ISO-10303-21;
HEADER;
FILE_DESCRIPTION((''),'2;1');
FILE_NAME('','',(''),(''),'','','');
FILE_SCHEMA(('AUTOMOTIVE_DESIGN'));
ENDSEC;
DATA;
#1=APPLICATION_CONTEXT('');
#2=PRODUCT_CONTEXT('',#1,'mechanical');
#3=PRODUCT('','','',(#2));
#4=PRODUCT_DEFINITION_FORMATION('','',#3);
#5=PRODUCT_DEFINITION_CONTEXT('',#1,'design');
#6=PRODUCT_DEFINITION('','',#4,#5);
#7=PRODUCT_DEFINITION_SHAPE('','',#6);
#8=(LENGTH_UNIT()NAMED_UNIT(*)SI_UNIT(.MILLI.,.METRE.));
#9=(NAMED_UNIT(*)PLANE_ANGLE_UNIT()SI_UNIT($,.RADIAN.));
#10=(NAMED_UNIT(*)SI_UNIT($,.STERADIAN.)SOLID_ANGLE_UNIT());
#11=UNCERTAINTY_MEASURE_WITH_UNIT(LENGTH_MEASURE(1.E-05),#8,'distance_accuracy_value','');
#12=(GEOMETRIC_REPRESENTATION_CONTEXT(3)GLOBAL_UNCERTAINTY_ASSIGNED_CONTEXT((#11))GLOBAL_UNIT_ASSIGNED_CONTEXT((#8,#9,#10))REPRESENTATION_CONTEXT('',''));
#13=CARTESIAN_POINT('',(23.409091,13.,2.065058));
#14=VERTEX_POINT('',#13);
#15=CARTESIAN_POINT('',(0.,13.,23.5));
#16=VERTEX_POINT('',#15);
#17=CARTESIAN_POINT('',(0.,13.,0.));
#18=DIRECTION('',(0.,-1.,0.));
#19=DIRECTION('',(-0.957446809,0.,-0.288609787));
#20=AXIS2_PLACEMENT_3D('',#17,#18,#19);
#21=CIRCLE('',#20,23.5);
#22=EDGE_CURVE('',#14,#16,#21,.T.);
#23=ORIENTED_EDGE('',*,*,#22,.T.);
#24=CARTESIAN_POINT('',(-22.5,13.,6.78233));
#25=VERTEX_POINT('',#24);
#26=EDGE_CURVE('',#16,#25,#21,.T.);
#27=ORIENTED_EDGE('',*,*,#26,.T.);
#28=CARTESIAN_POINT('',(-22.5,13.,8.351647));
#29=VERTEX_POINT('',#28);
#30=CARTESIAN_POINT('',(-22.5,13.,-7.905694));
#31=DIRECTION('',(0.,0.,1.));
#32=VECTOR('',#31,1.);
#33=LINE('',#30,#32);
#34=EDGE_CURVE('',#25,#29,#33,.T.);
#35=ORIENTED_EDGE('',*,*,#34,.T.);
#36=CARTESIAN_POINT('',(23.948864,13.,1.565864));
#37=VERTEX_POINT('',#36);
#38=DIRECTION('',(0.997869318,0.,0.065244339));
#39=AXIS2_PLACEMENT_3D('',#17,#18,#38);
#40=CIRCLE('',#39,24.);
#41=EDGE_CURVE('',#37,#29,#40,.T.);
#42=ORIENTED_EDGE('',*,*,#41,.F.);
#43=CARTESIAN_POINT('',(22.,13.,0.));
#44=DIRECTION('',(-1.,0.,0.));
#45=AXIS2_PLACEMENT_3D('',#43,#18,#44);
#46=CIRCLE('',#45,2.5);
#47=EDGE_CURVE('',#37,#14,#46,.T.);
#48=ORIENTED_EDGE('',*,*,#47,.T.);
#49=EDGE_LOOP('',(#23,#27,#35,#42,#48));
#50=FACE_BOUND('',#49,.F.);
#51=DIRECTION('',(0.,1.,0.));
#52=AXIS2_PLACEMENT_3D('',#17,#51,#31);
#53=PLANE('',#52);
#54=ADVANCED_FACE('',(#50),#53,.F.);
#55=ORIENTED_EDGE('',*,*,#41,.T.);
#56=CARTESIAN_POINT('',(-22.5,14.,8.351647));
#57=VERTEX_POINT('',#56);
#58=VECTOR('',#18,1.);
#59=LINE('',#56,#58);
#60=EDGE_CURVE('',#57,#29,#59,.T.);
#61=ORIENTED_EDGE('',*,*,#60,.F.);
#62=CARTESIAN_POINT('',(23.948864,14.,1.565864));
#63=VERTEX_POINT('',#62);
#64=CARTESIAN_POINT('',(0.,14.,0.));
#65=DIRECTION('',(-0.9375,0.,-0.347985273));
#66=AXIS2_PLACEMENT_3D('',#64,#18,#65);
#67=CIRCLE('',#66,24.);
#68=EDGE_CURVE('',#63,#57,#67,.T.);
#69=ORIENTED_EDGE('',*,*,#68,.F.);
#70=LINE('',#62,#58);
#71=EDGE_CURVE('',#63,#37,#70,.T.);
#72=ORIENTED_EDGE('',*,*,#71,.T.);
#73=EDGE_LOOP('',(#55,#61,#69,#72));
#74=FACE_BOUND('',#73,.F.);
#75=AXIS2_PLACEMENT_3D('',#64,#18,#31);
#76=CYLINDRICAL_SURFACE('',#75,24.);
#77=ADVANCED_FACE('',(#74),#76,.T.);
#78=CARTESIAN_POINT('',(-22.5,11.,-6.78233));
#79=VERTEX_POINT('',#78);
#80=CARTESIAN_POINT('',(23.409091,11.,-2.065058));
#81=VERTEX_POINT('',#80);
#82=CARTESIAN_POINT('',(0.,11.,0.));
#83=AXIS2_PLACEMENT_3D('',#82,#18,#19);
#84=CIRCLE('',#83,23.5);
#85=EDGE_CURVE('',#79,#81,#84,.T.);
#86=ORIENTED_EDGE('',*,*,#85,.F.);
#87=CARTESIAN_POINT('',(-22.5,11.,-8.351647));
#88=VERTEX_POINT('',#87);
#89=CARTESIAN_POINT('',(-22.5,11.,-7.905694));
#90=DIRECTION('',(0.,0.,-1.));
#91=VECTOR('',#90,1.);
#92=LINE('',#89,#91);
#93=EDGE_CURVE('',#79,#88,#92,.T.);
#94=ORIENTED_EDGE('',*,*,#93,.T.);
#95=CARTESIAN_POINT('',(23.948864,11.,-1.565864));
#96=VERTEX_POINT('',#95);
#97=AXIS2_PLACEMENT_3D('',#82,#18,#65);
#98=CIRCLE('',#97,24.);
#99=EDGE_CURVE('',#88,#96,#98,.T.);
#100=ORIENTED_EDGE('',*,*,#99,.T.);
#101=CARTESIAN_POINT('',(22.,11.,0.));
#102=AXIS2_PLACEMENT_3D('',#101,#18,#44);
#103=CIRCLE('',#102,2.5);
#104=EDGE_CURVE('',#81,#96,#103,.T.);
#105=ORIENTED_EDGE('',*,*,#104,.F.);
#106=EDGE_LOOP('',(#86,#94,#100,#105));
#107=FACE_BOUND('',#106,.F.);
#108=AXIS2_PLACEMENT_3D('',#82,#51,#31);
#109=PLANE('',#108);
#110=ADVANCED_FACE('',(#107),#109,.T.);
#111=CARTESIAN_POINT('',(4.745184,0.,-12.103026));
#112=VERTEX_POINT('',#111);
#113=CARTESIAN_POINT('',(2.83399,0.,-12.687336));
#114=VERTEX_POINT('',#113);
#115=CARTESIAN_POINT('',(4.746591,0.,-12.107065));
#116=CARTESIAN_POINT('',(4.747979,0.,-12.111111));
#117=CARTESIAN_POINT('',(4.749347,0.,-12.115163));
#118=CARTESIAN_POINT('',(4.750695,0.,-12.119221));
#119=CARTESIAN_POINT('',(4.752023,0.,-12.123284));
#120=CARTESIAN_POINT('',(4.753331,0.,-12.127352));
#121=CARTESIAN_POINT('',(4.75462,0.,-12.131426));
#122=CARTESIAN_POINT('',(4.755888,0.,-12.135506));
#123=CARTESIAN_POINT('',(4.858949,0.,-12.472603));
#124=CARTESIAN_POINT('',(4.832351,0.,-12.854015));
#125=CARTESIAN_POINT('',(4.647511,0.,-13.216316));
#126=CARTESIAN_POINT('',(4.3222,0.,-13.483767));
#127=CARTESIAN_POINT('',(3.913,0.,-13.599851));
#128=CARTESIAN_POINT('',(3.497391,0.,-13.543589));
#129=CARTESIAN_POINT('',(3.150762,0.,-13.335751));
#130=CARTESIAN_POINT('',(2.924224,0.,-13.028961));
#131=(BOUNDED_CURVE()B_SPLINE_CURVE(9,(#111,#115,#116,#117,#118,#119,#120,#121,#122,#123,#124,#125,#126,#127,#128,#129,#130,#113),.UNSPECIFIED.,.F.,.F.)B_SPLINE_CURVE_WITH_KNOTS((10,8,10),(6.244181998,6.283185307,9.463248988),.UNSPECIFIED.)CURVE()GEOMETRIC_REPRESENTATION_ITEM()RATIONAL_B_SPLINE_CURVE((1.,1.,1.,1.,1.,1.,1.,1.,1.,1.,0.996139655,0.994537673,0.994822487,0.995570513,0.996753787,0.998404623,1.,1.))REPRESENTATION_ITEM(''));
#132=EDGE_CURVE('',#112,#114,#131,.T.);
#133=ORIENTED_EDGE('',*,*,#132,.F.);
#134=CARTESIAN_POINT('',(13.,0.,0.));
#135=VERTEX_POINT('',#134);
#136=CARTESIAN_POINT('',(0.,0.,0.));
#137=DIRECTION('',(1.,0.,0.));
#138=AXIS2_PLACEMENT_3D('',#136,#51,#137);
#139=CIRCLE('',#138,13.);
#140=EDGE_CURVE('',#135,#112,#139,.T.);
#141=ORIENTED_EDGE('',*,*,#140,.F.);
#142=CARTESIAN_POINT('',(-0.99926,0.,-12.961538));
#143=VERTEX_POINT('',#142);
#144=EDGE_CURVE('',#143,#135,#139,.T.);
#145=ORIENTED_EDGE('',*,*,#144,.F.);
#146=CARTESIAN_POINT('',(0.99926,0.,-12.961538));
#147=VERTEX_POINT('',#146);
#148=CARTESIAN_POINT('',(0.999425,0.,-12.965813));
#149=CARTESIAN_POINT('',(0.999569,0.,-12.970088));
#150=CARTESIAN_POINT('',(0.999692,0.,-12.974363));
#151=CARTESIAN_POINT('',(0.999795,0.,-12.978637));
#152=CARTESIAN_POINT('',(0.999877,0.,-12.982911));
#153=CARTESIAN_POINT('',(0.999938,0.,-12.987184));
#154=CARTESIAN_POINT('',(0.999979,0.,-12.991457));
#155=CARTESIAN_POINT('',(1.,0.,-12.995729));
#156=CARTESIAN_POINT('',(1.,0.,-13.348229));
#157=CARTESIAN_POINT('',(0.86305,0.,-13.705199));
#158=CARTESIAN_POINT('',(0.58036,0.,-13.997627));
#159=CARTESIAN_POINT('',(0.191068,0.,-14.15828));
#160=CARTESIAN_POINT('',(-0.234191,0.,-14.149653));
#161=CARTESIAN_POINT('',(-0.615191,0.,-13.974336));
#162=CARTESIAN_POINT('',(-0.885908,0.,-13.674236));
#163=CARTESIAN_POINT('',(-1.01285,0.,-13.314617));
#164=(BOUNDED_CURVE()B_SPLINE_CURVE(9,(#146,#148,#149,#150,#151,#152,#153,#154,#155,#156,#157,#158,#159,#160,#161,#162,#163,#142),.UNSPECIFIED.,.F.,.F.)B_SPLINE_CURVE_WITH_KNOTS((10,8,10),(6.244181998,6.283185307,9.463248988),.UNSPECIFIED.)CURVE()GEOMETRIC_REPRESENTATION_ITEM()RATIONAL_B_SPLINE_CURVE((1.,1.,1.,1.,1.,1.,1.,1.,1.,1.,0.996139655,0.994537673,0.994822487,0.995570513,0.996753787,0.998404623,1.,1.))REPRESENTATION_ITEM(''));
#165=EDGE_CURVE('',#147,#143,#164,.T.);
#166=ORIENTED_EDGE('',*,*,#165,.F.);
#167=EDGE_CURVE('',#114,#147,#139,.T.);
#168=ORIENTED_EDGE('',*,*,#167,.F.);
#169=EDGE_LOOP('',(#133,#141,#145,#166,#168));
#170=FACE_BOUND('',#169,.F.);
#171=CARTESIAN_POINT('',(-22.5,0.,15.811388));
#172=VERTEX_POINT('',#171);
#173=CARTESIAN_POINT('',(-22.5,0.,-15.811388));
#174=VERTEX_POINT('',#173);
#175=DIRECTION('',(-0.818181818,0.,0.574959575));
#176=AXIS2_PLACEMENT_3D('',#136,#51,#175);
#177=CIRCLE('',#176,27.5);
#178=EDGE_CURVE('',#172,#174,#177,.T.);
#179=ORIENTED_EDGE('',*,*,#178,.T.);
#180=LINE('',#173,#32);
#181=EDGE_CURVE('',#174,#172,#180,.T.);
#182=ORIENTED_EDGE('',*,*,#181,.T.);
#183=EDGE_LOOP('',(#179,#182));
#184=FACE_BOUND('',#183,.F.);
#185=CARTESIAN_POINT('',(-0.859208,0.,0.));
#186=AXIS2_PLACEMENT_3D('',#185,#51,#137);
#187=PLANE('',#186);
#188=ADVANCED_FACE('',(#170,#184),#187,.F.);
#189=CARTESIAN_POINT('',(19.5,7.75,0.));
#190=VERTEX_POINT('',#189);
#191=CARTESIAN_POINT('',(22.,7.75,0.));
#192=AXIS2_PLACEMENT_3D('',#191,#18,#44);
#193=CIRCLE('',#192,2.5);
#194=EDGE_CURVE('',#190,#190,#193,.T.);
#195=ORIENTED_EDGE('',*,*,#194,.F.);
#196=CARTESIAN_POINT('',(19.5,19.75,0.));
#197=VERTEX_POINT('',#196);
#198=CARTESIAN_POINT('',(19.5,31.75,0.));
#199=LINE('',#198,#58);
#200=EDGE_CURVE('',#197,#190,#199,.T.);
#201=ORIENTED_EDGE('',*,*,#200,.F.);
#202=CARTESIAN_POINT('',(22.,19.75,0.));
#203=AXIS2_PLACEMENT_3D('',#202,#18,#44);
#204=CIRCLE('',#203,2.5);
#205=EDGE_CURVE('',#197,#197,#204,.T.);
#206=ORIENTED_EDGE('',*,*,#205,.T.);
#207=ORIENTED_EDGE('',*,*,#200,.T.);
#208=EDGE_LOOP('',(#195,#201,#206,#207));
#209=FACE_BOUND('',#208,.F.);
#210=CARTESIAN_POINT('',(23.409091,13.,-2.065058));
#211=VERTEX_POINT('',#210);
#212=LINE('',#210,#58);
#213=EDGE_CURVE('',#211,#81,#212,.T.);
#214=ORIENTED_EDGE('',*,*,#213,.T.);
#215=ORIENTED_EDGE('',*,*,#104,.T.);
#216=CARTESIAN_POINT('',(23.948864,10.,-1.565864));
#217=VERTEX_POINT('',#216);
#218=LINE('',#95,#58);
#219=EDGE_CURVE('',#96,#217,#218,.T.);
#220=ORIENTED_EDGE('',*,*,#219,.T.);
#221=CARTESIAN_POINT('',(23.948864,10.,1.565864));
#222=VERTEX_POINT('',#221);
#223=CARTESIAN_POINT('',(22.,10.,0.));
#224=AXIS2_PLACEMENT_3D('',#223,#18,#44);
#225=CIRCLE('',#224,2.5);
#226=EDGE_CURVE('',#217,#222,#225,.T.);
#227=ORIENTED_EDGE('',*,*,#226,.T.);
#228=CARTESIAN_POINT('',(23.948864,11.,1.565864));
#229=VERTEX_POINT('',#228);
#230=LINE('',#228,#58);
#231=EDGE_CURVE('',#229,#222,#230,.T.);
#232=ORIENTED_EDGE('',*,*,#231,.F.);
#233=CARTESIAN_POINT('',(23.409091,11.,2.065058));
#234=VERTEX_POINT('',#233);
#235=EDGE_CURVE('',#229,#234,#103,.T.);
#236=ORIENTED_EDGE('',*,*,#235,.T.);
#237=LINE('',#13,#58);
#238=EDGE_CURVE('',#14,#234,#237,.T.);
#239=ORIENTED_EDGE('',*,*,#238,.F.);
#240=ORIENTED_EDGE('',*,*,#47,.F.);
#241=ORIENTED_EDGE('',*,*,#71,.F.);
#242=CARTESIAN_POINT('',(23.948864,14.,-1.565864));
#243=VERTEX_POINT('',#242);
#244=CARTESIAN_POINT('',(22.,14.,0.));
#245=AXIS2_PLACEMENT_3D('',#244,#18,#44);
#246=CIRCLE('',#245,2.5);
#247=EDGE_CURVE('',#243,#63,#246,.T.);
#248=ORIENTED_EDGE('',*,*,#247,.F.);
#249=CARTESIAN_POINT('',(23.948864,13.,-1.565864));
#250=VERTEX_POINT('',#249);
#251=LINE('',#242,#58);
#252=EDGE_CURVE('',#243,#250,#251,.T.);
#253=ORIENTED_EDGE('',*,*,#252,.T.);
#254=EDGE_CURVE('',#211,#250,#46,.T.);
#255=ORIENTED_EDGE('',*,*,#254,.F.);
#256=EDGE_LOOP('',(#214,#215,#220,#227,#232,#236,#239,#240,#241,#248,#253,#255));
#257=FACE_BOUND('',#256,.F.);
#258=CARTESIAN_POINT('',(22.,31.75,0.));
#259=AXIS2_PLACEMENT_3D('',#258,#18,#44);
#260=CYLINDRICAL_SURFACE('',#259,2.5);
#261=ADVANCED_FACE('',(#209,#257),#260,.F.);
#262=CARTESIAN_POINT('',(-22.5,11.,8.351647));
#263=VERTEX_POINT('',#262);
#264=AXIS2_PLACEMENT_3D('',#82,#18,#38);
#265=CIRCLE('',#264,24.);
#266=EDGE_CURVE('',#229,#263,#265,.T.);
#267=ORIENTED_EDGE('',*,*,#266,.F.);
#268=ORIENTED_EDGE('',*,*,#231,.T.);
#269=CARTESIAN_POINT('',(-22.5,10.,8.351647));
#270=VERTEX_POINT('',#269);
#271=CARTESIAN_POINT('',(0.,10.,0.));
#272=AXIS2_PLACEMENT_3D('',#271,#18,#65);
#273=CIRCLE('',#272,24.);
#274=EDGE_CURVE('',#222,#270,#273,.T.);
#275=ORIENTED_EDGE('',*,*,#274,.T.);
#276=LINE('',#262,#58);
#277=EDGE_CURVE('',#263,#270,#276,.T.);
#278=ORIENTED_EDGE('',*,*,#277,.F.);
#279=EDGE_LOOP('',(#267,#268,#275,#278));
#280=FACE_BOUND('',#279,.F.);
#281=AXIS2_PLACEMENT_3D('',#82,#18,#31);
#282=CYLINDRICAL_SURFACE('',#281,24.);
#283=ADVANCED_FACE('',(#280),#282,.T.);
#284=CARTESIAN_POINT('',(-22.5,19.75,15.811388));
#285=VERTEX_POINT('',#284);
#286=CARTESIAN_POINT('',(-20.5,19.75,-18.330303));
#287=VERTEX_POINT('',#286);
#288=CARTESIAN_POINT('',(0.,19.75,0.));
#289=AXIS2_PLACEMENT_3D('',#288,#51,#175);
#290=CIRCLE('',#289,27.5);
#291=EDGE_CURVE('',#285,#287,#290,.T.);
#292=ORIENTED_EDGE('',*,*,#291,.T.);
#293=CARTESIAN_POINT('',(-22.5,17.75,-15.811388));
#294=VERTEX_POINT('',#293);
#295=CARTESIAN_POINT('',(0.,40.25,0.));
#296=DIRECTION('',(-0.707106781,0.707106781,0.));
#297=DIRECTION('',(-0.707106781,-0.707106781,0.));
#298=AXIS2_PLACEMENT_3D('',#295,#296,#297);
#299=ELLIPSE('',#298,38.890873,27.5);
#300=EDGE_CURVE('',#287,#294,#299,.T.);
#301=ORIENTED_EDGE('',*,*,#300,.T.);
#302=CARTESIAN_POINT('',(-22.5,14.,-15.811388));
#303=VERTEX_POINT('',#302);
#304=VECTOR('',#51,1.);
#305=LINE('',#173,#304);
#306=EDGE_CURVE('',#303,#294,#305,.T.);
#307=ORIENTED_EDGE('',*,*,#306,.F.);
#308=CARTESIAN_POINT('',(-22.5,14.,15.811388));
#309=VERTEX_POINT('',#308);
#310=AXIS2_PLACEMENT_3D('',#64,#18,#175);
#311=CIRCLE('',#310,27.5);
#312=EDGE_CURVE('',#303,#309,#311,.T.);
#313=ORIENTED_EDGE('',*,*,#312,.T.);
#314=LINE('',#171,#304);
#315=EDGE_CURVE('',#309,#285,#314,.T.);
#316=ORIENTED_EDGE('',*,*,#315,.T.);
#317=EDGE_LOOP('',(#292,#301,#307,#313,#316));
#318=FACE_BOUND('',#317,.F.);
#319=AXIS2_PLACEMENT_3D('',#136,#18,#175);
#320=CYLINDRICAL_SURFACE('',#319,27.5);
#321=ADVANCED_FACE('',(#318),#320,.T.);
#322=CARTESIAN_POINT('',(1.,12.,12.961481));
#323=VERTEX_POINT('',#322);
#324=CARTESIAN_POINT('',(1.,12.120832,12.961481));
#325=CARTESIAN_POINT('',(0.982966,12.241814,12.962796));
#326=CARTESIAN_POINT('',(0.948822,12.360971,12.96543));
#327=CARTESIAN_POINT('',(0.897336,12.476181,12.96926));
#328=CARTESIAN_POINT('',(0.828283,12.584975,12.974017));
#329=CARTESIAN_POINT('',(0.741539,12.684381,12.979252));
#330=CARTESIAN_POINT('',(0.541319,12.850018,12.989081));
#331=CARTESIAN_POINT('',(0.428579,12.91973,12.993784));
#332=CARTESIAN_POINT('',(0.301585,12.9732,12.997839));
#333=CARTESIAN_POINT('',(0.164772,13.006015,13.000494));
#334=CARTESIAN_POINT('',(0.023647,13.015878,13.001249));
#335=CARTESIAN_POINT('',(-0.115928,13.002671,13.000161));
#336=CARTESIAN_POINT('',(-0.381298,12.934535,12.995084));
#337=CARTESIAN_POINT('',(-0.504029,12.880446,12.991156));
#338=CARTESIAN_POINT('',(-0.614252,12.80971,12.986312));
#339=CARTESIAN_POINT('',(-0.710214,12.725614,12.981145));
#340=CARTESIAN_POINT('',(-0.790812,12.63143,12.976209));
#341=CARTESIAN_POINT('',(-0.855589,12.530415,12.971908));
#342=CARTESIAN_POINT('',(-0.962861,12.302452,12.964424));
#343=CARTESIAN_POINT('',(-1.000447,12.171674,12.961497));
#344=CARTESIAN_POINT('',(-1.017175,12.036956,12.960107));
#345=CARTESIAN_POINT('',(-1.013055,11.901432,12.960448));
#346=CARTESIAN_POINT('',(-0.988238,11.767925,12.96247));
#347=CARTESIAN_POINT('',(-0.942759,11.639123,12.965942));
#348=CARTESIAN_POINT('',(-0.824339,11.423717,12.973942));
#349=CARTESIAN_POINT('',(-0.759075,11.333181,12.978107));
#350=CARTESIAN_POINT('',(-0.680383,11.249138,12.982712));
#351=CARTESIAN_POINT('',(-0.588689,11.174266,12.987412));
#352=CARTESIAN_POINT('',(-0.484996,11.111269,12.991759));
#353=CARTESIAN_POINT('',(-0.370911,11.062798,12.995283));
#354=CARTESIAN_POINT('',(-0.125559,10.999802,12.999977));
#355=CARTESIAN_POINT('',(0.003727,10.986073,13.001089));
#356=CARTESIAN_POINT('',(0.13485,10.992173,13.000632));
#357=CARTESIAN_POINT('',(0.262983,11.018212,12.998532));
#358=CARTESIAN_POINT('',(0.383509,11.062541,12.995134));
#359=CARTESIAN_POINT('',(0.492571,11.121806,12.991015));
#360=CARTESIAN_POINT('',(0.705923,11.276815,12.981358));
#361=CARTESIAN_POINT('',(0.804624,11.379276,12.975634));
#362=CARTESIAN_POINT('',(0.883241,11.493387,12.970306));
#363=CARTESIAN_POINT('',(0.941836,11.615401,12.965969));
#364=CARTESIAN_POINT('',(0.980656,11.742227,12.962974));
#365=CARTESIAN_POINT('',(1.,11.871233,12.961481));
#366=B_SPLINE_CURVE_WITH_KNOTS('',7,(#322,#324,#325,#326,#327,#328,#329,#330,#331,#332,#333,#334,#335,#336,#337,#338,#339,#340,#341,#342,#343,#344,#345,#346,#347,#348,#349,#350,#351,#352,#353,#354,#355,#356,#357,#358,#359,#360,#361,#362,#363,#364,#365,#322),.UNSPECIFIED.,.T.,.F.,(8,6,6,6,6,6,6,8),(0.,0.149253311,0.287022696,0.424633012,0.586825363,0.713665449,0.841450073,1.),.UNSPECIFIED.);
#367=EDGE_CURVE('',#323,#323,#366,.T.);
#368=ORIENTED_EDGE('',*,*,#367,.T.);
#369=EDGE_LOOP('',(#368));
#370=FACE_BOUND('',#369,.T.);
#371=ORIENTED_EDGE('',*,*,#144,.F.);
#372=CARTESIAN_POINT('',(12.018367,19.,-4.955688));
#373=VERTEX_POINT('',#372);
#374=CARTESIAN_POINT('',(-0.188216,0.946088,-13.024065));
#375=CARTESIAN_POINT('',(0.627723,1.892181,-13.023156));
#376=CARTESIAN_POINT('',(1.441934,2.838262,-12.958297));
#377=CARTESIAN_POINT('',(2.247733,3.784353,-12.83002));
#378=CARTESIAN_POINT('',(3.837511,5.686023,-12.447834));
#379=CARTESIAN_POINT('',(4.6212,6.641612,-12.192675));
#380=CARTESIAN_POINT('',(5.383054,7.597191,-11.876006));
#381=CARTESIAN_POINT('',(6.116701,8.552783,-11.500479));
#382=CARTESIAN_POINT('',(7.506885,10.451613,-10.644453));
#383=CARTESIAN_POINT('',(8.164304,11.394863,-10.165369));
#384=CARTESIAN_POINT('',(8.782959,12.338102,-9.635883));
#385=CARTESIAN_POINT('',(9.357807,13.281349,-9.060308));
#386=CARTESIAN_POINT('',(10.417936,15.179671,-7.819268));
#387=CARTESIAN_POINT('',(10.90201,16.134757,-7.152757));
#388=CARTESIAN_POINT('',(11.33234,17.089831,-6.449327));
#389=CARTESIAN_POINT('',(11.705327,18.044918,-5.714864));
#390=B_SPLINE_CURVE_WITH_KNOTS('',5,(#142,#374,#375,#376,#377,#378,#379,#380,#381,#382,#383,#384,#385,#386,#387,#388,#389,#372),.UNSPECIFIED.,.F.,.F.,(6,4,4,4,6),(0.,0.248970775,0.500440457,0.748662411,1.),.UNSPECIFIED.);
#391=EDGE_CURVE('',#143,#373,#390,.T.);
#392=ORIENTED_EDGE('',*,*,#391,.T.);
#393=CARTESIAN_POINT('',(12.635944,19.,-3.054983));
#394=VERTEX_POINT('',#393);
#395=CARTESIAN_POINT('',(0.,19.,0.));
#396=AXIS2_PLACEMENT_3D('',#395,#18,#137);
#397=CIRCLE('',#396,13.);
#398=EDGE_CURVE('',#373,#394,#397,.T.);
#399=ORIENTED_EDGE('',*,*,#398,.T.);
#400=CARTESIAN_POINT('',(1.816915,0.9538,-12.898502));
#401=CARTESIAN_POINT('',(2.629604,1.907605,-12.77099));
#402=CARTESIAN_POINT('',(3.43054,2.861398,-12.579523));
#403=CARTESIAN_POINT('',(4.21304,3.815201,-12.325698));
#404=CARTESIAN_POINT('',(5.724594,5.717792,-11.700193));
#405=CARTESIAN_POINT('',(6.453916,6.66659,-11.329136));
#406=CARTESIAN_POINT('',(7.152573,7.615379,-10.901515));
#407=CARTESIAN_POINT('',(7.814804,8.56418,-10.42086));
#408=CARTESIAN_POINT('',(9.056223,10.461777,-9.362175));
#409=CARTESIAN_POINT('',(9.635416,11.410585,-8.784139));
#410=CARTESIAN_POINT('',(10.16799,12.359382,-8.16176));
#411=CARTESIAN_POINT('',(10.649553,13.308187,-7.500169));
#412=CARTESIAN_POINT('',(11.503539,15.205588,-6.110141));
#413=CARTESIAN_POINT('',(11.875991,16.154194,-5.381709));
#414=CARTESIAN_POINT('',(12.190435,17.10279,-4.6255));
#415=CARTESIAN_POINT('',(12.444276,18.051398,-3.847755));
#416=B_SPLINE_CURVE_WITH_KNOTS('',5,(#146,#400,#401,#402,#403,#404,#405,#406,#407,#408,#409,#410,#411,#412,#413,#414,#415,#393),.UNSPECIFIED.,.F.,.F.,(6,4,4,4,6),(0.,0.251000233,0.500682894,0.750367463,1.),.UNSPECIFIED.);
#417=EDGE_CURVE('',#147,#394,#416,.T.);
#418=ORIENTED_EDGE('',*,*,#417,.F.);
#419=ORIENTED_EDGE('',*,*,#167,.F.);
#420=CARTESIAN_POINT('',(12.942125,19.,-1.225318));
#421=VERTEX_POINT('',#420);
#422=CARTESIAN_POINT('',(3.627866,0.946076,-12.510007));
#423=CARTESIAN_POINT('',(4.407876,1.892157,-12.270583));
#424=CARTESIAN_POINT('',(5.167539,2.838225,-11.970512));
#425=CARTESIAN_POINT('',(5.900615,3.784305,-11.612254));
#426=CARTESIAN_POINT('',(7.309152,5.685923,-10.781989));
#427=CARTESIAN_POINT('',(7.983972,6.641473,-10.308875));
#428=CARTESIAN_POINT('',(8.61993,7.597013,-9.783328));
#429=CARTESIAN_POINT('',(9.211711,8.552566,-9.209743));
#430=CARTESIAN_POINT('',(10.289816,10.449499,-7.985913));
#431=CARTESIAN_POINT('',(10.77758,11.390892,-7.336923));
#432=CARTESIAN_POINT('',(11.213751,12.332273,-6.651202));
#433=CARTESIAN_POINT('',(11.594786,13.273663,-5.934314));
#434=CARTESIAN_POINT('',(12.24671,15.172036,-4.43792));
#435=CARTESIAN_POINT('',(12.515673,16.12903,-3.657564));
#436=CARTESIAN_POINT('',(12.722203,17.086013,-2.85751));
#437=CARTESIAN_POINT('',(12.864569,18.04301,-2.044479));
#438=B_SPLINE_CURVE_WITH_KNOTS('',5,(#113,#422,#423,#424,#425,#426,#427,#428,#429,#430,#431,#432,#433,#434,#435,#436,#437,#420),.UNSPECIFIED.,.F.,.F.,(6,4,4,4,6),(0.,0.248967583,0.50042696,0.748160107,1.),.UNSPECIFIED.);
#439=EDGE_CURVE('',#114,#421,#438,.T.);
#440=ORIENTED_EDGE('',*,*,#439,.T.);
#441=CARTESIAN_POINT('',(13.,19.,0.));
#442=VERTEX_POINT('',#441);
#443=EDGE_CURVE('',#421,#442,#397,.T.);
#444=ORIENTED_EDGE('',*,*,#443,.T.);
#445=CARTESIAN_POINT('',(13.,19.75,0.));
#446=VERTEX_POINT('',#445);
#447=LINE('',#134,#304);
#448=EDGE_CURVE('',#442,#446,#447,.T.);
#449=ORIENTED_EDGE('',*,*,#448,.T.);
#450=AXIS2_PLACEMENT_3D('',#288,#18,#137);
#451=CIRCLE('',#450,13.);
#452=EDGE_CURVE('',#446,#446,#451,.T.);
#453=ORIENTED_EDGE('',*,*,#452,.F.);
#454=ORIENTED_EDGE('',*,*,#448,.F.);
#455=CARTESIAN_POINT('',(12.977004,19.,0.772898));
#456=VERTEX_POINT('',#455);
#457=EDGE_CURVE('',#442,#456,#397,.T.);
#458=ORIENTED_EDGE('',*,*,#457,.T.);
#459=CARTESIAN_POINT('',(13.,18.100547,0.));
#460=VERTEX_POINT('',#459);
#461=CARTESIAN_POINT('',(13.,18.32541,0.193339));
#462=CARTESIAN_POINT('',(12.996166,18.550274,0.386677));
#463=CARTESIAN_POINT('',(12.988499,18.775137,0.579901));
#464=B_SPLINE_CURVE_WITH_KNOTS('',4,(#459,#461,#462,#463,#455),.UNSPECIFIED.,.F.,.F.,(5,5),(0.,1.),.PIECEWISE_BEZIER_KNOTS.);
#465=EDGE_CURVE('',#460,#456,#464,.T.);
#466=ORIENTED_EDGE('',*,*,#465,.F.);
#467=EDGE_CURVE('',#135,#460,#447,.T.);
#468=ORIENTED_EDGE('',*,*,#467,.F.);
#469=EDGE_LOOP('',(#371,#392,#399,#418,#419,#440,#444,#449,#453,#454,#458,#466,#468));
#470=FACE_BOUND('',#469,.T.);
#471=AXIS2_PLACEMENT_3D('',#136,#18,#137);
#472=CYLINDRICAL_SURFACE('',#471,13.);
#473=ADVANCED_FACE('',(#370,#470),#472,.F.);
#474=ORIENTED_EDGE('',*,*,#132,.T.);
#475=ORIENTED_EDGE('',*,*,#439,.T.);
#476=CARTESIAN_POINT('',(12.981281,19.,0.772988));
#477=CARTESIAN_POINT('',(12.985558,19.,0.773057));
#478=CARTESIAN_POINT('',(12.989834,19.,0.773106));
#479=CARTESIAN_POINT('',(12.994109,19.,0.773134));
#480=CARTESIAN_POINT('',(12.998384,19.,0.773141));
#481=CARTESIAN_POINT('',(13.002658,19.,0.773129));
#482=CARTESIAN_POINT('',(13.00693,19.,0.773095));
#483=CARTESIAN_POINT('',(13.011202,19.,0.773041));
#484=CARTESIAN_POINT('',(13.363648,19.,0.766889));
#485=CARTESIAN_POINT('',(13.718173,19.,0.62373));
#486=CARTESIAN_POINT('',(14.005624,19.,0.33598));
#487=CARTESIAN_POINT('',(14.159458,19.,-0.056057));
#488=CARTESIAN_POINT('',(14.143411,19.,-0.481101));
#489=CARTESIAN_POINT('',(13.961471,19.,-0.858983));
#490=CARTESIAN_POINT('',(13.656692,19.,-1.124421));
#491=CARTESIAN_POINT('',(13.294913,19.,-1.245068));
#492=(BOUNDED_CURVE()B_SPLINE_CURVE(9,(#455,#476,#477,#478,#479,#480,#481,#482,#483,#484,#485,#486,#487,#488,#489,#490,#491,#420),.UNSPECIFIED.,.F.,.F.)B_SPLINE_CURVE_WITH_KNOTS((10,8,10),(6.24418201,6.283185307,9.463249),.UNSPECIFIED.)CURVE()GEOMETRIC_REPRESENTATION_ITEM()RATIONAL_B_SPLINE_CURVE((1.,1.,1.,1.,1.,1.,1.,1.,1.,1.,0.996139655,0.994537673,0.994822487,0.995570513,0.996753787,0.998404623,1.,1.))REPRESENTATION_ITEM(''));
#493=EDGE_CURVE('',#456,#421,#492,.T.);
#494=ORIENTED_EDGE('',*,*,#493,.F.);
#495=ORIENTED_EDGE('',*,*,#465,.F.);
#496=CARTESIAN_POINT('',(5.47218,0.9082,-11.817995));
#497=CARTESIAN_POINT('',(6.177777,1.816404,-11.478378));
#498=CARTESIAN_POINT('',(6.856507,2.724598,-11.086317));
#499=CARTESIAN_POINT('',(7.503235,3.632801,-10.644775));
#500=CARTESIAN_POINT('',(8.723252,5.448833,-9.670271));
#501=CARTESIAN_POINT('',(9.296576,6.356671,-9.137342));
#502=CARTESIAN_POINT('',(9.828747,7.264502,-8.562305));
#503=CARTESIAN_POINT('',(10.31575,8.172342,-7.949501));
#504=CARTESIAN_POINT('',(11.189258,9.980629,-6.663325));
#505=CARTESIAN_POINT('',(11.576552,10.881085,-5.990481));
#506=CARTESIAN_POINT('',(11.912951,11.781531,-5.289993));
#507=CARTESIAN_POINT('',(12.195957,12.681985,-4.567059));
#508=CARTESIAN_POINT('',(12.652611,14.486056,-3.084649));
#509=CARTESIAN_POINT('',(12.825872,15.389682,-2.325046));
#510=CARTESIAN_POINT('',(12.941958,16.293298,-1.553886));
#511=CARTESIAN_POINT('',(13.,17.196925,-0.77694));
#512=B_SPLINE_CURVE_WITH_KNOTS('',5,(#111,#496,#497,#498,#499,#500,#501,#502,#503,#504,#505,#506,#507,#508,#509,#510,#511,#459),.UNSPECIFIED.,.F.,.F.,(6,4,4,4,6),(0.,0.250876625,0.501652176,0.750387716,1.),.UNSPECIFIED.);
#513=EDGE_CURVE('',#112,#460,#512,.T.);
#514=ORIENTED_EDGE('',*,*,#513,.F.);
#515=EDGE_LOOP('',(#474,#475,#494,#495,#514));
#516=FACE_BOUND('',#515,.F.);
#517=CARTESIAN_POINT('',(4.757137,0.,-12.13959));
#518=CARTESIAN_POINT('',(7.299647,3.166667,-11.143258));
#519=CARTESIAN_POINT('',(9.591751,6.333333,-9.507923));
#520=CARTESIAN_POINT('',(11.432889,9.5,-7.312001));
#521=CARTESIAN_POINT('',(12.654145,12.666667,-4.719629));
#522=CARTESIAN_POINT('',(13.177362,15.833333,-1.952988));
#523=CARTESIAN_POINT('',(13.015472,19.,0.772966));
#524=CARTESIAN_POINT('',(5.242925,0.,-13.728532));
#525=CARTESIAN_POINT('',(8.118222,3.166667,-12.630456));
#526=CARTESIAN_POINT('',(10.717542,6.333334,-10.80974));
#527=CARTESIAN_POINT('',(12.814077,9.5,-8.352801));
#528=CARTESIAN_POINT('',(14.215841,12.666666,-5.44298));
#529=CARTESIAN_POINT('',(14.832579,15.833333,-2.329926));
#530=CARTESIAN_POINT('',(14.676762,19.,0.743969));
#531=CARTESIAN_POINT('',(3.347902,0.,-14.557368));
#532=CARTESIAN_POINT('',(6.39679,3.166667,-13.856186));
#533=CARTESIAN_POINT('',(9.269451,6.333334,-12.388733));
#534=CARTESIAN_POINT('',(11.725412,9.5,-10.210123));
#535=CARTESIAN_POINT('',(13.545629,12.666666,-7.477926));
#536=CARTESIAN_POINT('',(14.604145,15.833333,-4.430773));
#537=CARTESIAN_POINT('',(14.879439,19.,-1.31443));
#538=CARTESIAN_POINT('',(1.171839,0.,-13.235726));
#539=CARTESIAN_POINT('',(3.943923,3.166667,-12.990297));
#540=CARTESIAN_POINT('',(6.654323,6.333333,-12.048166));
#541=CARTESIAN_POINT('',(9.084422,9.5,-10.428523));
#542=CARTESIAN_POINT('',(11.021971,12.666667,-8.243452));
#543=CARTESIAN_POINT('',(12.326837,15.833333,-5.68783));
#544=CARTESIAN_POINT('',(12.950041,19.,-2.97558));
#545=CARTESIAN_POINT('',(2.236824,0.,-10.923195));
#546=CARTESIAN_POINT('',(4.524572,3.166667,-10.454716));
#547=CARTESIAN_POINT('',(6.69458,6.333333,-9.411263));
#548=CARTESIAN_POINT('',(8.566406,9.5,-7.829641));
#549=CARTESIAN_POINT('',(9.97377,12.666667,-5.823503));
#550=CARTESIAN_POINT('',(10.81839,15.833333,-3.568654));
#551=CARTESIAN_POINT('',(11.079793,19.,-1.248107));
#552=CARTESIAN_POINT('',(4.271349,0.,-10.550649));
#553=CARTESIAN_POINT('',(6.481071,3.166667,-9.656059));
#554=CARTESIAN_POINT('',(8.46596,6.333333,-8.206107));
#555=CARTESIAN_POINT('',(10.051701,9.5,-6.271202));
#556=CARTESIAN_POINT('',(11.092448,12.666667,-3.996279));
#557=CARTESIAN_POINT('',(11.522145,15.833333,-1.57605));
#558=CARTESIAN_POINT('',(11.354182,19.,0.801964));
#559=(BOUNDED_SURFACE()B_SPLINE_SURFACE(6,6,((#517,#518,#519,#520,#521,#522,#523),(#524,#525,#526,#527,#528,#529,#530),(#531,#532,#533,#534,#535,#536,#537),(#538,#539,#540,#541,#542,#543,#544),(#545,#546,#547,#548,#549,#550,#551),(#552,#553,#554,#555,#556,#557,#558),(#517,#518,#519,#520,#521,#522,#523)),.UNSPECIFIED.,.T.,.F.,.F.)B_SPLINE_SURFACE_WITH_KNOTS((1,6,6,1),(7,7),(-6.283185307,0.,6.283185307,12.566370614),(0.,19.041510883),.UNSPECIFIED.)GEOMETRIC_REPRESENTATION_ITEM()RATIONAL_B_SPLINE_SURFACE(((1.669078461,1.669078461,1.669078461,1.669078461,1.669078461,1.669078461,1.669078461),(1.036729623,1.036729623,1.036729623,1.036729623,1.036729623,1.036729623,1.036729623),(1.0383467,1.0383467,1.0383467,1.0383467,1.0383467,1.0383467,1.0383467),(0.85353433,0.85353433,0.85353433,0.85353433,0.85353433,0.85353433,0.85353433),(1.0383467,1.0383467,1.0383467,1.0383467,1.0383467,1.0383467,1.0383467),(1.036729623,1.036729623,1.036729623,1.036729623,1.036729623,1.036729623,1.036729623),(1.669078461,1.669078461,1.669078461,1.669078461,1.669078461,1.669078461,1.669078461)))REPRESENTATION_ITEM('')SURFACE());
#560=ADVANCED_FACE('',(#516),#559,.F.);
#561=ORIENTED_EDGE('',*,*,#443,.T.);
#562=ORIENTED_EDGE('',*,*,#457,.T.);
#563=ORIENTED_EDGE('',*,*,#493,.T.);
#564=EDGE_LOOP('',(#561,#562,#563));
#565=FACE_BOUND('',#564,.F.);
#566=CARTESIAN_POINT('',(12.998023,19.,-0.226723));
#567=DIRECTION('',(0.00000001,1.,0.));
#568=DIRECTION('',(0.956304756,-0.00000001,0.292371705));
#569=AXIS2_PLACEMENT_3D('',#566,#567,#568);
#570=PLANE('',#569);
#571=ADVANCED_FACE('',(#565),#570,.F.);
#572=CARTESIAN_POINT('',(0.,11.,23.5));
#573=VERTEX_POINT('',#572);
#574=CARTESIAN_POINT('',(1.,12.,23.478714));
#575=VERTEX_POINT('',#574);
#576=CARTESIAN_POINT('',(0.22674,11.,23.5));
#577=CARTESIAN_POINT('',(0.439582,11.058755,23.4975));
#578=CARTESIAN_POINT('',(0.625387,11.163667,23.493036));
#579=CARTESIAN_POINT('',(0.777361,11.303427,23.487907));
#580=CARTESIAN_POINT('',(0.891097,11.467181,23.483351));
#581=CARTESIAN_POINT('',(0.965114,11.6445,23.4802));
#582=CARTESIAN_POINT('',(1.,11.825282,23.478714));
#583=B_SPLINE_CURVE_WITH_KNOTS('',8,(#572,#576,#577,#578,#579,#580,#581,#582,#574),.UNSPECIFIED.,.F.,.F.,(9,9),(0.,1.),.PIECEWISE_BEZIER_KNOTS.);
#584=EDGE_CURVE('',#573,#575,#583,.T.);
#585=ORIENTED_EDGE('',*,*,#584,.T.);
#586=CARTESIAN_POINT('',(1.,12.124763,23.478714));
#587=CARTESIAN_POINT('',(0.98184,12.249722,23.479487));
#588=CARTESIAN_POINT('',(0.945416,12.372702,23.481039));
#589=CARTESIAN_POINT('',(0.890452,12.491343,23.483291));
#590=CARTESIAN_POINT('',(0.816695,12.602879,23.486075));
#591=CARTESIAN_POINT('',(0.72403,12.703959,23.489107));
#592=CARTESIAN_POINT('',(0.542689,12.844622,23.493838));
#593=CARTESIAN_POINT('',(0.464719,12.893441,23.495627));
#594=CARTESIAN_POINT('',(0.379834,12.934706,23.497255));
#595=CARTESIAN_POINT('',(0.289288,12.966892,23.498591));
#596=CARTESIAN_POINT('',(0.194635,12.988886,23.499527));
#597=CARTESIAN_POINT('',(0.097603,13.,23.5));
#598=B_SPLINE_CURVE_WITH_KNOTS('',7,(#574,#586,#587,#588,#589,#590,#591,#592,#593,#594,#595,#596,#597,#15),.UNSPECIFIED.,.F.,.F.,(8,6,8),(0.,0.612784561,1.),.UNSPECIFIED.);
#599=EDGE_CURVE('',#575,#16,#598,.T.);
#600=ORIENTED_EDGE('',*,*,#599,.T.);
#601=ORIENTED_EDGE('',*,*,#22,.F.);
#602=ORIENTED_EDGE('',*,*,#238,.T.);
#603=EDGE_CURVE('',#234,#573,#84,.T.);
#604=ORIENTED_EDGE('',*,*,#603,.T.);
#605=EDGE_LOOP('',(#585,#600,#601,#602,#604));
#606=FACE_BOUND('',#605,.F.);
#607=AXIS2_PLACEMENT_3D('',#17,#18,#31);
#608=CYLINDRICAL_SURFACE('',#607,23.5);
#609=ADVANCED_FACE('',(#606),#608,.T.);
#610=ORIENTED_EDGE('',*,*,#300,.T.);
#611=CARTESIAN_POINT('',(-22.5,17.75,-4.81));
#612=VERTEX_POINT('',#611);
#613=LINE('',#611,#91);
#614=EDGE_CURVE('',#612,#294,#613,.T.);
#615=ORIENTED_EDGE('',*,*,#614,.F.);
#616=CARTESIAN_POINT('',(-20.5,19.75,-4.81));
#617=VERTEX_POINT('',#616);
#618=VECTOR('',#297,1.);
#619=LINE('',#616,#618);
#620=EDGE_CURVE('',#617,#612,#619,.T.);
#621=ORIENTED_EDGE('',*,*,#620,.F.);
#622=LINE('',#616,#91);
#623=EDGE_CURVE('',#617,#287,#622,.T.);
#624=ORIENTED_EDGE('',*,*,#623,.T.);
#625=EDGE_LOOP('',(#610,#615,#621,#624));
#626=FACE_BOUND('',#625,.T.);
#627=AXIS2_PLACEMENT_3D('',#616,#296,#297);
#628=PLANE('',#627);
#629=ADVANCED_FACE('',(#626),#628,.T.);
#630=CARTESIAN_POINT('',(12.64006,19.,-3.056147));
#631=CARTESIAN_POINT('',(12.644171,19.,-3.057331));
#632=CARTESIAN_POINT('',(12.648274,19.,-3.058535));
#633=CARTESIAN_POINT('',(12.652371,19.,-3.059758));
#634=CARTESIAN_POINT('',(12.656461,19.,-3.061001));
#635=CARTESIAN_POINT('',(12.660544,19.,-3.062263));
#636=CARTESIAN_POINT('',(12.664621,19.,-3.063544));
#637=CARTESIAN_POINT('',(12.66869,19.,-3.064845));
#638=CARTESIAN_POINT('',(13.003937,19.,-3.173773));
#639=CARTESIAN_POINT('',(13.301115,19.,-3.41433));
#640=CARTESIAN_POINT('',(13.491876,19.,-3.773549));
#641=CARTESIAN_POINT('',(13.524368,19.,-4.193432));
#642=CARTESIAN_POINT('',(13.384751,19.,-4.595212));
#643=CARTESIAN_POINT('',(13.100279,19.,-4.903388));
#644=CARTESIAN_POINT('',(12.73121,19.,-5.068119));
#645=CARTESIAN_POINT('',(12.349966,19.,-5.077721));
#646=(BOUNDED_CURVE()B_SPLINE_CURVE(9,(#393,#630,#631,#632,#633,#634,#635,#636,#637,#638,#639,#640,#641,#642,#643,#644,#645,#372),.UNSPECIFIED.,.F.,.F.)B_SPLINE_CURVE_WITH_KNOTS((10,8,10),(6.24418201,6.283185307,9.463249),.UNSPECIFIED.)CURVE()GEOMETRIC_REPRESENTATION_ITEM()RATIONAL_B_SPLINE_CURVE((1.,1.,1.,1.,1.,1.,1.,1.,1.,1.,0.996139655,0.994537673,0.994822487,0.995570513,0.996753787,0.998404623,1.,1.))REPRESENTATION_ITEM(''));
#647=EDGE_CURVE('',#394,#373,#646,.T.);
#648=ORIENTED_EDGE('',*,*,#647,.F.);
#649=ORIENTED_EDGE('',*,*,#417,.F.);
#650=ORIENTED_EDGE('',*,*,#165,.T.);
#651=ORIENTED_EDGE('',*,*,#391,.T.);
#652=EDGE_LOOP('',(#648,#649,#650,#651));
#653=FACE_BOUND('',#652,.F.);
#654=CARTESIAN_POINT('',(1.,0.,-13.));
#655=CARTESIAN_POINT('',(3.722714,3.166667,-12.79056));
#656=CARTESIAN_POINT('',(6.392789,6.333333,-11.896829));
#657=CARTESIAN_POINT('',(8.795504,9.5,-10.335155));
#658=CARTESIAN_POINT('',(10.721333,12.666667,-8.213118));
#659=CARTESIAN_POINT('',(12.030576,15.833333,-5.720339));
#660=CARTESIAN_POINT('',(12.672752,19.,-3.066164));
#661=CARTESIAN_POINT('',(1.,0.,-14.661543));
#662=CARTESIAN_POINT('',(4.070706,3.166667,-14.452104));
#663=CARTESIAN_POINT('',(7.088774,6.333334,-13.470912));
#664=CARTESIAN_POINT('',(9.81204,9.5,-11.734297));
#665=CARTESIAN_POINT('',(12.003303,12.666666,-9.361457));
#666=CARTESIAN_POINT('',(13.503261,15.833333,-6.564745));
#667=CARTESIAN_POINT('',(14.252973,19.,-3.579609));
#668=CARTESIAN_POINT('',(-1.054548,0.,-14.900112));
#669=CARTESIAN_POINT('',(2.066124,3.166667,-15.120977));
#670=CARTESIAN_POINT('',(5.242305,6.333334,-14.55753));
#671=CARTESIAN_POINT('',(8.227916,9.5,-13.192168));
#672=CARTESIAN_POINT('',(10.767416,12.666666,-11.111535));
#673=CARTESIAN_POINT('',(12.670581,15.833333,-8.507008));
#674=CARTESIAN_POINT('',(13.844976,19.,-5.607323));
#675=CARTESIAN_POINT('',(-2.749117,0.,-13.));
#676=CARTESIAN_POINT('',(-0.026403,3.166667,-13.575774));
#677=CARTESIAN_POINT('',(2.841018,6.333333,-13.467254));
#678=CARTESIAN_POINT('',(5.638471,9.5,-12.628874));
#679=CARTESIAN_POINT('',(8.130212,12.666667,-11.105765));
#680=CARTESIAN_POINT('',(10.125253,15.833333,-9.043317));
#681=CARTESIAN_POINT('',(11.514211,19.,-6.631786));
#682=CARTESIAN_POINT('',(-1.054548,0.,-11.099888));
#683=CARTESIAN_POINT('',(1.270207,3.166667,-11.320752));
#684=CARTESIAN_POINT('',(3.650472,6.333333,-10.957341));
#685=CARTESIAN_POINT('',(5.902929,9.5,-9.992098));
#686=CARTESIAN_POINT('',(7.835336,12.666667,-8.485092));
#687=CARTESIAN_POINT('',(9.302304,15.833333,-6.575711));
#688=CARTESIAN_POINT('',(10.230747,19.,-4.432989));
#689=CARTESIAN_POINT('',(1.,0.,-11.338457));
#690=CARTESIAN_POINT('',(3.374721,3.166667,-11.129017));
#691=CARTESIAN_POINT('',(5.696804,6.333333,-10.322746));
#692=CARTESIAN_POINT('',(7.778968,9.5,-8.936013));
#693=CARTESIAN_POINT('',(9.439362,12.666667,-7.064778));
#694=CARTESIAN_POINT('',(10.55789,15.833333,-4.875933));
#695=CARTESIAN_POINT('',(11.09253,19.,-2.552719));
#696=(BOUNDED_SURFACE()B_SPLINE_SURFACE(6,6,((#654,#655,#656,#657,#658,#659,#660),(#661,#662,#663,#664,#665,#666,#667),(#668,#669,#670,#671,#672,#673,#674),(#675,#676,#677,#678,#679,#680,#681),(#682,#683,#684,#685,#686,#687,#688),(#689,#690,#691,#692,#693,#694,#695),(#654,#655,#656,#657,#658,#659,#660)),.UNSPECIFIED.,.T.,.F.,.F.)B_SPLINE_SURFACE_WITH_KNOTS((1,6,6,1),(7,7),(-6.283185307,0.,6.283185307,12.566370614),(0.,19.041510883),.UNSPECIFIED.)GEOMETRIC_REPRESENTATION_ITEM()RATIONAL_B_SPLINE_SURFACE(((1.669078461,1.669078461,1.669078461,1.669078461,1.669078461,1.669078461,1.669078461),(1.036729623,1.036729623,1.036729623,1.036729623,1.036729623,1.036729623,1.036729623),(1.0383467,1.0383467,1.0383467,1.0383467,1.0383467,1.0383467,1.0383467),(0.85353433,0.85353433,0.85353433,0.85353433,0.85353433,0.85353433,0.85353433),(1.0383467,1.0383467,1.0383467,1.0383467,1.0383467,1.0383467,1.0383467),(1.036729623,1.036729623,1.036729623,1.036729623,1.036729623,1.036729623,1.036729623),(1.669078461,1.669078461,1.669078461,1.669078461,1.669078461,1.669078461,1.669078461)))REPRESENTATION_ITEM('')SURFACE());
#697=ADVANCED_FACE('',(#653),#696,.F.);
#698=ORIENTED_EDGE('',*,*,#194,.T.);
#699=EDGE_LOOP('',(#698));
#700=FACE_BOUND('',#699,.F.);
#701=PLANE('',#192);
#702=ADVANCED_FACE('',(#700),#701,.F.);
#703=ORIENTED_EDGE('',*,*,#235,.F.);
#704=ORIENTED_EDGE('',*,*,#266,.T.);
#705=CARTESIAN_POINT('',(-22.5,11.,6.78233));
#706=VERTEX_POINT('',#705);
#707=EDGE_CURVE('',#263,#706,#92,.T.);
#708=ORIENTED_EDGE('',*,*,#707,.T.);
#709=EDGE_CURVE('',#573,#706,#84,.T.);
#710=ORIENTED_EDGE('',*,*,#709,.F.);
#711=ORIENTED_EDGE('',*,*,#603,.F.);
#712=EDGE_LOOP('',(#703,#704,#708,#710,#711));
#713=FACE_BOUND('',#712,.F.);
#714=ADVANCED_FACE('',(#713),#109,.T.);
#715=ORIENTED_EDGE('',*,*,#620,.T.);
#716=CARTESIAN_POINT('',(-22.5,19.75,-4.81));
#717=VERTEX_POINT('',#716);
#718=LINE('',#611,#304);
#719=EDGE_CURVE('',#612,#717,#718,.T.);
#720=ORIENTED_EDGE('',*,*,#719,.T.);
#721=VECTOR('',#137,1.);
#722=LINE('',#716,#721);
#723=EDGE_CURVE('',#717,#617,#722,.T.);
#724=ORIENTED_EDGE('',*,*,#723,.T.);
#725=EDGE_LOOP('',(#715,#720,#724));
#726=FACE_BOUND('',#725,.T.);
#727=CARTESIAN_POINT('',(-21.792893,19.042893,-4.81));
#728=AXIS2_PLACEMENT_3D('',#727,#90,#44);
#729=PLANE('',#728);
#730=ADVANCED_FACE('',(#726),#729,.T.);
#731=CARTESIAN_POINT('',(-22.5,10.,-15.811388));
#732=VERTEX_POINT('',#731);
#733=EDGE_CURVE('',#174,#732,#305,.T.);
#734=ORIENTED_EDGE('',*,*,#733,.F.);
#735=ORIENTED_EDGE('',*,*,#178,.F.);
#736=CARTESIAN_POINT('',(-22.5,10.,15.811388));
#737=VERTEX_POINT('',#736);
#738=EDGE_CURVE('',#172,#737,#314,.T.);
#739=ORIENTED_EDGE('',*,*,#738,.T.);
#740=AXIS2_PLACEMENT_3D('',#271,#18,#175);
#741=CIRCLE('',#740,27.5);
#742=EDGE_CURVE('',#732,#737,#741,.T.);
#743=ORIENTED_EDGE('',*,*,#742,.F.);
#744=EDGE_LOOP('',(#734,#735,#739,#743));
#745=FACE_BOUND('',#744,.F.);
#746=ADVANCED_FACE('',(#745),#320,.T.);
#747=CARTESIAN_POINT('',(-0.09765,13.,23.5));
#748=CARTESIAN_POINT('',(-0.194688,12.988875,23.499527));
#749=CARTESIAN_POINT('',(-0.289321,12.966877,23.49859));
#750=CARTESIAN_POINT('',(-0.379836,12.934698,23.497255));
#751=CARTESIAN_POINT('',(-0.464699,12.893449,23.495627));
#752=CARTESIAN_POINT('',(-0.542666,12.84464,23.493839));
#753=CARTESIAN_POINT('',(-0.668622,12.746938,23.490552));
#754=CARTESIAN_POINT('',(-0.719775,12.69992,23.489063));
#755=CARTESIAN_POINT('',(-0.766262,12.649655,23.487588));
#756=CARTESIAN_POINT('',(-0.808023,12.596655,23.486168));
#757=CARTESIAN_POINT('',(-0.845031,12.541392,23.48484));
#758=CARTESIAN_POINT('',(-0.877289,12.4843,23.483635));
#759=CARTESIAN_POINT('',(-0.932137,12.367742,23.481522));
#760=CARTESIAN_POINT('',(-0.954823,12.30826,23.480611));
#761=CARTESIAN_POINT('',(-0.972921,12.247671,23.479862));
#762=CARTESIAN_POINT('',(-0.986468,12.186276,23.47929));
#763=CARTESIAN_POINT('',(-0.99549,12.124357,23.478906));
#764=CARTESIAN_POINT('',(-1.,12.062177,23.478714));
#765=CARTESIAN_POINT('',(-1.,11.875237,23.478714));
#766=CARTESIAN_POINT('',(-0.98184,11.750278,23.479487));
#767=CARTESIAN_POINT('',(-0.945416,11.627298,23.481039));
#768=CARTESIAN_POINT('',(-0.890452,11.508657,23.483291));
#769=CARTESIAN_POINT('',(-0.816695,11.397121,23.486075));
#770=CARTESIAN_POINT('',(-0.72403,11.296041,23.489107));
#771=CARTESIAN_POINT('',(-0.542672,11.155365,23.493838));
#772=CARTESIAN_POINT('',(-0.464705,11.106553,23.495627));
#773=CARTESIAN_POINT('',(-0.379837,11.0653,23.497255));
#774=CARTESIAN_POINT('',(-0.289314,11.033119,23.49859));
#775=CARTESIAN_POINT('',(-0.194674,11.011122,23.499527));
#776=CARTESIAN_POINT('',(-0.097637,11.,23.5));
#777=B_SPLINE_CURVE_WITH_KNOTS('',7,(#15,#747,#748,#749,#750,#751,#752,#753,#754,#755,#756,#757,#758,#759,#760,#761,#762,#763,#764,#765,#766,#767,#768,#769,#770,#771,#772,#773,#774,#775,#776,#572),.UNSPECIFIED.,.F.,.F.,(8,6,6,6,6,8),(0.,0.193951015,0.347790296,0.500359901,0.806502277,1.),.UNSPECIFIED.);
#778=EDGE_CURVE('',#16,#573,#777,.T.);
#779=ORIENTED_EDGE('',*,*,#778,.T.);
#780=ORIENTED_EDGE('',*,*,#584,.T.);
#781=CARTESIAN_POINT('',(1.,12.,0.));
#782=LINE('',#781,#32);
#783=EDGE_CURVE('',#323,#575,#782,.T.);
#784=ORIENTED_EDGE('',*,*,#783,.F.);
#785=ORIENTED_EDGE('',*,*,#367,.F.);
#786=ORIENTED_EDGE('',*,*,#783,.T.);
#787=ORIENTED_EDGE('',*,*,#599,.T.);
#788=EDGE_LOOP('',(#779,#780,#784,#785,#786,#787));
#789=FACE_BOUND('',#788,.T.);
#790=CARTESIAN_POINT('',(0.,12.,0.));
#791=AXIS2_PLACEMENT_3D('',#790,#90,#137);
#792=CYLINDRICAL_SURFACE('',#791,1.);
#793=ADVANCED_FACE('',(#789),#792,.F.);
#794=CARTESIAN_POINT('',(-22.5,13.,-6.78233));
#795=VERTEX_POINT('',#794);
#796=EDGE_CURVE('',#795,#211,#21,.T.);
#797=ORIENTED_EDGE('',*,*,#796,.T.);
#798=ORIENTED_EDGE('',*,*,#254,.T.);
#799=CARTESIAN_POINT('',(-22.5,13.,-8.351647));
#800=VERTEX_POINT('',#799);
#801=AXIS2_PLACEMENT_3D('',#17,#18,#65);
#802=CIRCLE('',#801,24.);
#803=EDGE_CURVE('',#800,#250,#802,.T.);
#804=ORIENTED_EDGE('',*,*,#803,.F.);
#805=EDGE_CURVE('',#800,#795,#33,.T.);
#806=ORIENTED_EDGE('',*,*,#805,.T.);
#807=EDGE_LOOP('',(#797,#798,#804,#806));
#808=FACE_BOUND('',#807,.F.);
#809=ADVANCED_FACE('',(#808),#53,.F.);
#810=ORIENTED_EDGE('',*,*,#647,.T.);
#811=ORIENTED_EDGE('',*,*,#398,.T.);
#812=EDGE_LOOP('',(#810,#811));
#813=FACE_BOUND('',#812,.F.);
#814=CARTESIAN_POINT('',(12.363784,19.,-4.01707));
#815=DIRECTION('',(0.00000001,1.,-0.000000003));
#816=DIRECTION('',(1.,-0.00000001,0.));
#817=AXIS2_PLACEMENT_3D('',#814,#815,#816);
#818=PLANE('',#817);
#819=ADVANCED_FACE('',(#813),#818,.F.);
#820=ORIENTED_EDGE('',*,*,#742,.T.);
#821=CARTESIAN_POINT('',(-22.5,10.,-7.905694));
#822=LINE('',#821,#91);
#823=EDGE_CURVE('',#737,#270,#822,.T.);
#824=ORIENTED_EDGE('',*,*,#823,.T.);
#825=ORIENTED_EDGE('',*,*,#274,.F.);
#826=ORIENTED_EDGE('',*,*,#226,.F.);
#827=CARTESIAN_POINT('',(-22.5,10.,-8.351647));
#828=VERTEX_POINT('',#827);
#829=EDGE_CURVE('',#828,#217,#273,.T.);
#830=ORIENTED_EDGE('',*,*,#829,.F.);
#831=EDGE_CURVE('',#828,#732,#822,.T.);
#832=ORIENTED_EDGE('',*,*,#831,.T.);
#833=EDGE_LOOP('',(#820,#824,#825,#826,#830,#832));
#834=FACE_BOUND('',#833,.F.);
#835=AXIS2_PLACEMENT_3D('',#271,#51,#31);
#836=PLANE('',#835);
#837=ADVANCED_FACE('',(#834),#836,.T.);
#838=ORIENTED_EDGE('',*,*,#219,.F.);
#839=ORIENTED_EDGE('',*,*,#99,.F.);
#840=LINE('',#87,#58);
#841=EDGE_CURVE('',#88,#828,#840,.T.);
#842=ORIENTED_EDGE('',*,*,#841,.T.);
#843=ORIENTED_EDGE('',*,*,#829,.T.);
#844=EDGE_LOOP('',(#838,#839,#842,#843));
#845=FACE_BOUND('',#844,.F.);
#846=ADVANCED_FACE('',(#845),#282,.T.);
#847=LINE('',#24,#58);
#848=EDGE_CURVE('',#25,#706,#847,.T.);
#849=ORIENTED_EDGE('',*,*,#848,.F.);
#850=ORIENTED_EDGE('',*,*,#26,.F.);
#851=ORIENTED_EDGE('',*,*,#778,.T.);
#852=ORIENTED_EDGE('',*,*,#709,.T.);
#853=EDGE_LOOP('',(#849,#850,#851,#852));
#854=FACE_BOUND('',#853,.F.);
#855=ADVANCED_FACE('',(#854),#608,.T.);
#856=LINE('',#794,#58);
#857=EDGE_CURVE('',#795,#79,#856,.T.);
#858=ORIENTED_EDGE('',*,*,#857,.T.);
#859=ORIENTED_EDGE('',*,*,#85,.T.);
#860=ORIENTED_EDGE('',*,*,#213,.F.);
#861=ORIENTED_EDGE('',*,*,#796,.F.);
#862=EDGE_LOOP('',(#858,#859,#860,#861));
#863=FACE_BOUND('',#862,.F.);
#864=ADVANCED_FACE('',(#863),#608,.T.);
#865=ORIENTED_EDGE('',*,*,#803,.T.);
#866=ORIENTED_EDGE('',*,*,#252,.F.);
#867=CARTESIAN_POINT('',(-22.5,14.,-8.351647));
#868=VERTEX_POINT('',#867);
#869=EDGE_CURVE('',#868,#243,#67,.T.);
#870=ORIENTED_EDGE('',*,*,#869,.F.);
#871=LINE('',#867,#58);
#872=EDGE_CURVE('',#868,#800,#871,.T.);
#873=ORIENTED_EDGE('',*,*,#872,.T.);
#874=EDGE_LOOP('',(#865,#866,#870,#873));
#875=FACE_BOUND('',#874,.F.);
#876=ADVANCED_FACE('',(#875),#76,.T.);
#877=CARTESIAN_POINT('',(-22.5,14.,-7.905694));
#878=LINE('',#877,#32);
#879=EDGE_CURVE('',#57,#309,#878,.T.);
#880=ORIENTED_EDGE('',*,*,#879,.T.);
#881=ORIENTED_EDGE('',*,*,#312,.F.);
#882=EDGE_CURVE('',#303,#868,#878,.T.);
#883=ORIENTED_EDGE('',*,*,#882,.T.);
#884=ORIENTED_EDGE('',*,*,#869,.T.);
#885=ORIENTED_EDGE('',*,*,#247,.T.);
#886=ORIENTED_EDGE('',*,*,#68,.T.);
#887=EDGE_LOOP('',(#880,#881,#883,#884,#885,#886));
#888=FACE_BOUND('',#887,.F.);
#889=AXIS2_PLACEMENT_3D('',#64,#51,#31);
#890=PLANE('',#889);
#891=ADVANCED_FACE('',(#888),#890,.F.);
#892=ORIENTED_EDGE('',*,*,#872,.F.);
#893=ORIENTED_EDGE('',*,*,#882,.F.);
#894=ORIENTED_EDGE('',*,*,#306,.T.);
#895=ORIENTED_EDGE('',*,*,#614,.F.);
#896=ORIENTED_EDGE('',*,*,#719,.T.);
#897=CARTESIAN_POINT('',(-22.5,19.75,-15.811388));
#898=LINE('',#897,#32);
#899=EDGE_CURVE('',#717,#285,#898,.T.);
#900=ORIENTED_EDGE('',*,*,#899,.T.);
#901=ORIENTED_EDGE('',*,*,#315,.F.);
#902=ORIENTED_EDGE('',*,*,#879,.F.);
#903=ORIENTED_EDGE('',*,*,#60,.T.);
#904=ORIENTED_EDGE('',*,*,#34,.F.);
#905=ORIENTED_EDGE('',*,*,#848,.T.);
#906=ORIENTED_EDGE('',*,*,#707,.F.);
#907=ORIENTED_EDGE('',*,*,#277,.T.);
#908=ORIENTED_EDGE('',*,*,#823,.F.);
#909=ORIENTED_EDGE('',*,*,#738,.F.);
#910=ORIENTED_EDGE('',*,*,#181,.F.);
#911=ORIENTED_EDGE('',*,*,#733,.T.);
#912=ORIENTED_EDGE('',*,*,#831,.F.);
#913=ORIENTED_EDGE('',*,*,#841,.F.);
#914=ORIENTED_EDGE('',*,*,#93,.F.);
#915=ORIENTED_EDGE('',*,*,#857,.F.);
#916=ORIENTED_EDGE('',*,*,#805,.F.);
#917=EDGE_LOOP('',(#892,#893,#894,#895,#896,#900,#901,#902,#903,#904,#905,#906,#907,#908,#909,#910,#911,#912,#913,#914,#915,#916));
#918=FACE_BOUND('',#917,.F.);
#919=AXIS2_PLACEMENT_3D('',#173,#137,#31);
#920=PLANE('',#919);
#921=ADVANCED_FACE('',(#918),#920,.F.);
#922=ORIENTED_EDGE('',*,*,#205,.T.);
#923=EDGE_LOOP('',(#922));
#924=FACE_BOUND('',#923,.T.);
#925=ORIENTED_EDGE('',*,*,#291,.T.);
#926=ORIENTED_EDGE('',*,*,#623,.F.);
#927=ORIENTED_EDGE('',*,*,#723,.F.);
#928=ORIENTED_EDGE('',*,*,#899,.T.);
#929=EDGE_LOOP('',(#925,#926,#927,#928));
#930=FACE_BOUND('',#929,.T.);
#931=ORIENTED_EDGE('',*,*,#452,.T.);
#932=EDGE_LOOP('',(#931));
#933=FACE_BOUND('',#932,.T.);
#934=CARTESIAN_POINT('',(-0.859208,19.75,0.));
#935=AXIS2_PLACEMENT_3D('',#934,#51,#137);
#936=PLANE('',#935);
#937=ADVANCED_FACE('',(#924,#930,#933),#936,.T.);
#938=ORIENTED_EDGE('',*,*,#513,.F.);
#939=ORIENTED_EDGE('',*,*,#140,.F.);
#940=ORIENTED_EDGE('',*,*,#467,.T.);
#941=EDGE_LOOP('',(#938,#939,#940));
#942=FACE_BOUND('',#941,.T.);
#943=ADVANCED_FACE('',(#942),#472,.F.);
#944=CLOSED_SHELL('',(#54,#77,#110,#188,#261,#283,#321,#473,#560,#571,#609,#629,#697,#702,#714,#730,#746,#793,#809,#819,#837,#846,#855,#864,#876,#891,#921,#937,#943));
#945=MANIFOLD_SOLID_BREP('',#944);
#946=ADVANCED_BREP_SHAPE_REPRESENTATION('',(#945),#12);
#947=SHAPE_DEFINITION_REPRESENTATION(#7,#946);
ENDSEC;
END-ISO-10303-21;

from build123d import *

# Parameters (mm, degrees)
EXTRUDE_1_DEPTH           = 19.75
SKETCH_2_R                = 13
CUT_EXTRUDE_2_DEPTH       = 20.75
CUT_EXTRUDE_4_DEPTH       = 23.69
HOLE_WIZARD_5_0_5_1_D     = 5
HOLE_WIZARD_5_0_5_1_DEPTH = 12
SKETCH_9_R                = 1
CUT_EXTRUDE_5_DEPTH       = 28.5
SWEEP_1_PITCH             = 95
SWEEP_1_HEIGHT            = 19
SWEEP_1_RADIUS            = 13
SWEEP_1_START_ANGLE       = -180
SKETCH_11_R               = 1
PATTERN_CIRCULAR_1_COUNT  = 2
PATTERN_CIRCULAR_1_ANGLE  = 17


with BuildPart() as part:
    # Эскиз1 → Бобышка-Вытянуть1 (new body)
    with BuildSketch(Plane(origin=(0, 0, 0), x_dir=(1, 0, 0), z_dir=(0, 1, 0))):
        with BuildLine():
            Line((-22.5, 15.811388301), (-22.5, -15.811388301))
            ThreePointArc((-22.5, -15.811388301), (27.5, 0), (-22.5, 15.811388301))
        make_face()
    extrude(amount=EXTRUDE_1_DEPTH)

    # Эскиз2 → Вырез-Вытянуть2 (cut, through all)
    with BuildSketch(Plane(origin=(0, 0, 0), x_dir=(1, 0, 0), z_dir=(0, 1, 0))):
        Circle(SKETCH_2_R)
    extrude(amount=CUT_EXTRUDE_2_DEPTH, mode=Mode.SUBTRACT)

    # Эскиз3 → Вырез-Повернуть1 (revolve, cut)
    with BuildSketch(Plane(origin=(0, 0, 0), x_dir=(0, 0, -1), z_dir=(1, 0, 0))):
        Polygon((-29, 14), (-24, 14), (-24, 13), (-23.5, 13), (-23.5, 11), (-24, 11), (-24, 10), (-29, 10), align=None)
    revolve(axis=Axis((0, 0, 0), (0, 1, 0)), mode=Mode.SUBTRACT)

    # Эскиз5 → Вырез-Вытянуть4 (cut, through all)
    with BuildSketch(Plane.XY.offset(-4.81)):
        Polygon((-22.5, 19.75), (-20.5, 19.75), (-22.5, 17.75), align=None)
    extrude(amount=-CUT_EXTRUDE_4_DEPTH, mode=Mode.SUBTRACT)

    # Диаметр отверстия Ø5.0 (5)1
    with Locations(Plane(origin=(0, 19.75, 0), x_dir=(1, 0, 0), z_dir=(0, 1, 0))):
        with Locations((22, 0)):
            Hole(HOLE_WIZARD_5_0_5_1_D / 2, depth=HOLE_WIZARD_5_0_5_1_DEPTH)

    # Эскиз9 → Вырез-Вытянуть5 (cut, through all)
    with BuildSketch(Plane.XY):
        with Locations((0, 12)):
            Circle(SKETCH_9_R)
    extrude(amount=CUT_EXTRUDE_5_DEPTH, mode=Mode.SUBTRACT)

    # Вырез-По траектории1: sweep along a helix
    with BuildLine() as sweep_1_path:
        add(Helix(SWEEP_1_PITCH, SWEEP_1_HEIGHT, SWEEP_1_RADIUS, center=(0, 0, 0), direction=(0, 1, 0), lefthand=True, mode=Mode.PRIVATE).rotate(Axis((0, 0, 0), (0, 1, 0)), SWEEP_1_START_ANGLE))
    # Эскиз11 → Вырез-По траектории1 (sweep, cut)
    with BuildSketch(Plane(origin=(0, 0, 0), x_dir=(1, 0, 0), z_dir=(0, 1, 0))):
        with Locations((0, 13)):
            Circle(SKETCH_11_R)
    sweep_1 = sweep(path=sweep_1_path.line, is_frenet=True, mode=Mode.SUBTRACT)

    # Круговой массив1: Вырез-По траектории1 ×2 about axis
    pattern_circular_1_axis = Axis((0, 19.75, 0), (0, -1, 0))
    for i in range(1, PATTERN_CIRCULAR_1_COUNT):
        add(sweep_1.rotate(pattern_circular_1_axis, i * PATTERN_CIRCULAR_1_ANGLE / (PATTERN_CIRCULAR_1_COUNT - 1)), mode=Mode.SUBTRACT)


solid = part.part
